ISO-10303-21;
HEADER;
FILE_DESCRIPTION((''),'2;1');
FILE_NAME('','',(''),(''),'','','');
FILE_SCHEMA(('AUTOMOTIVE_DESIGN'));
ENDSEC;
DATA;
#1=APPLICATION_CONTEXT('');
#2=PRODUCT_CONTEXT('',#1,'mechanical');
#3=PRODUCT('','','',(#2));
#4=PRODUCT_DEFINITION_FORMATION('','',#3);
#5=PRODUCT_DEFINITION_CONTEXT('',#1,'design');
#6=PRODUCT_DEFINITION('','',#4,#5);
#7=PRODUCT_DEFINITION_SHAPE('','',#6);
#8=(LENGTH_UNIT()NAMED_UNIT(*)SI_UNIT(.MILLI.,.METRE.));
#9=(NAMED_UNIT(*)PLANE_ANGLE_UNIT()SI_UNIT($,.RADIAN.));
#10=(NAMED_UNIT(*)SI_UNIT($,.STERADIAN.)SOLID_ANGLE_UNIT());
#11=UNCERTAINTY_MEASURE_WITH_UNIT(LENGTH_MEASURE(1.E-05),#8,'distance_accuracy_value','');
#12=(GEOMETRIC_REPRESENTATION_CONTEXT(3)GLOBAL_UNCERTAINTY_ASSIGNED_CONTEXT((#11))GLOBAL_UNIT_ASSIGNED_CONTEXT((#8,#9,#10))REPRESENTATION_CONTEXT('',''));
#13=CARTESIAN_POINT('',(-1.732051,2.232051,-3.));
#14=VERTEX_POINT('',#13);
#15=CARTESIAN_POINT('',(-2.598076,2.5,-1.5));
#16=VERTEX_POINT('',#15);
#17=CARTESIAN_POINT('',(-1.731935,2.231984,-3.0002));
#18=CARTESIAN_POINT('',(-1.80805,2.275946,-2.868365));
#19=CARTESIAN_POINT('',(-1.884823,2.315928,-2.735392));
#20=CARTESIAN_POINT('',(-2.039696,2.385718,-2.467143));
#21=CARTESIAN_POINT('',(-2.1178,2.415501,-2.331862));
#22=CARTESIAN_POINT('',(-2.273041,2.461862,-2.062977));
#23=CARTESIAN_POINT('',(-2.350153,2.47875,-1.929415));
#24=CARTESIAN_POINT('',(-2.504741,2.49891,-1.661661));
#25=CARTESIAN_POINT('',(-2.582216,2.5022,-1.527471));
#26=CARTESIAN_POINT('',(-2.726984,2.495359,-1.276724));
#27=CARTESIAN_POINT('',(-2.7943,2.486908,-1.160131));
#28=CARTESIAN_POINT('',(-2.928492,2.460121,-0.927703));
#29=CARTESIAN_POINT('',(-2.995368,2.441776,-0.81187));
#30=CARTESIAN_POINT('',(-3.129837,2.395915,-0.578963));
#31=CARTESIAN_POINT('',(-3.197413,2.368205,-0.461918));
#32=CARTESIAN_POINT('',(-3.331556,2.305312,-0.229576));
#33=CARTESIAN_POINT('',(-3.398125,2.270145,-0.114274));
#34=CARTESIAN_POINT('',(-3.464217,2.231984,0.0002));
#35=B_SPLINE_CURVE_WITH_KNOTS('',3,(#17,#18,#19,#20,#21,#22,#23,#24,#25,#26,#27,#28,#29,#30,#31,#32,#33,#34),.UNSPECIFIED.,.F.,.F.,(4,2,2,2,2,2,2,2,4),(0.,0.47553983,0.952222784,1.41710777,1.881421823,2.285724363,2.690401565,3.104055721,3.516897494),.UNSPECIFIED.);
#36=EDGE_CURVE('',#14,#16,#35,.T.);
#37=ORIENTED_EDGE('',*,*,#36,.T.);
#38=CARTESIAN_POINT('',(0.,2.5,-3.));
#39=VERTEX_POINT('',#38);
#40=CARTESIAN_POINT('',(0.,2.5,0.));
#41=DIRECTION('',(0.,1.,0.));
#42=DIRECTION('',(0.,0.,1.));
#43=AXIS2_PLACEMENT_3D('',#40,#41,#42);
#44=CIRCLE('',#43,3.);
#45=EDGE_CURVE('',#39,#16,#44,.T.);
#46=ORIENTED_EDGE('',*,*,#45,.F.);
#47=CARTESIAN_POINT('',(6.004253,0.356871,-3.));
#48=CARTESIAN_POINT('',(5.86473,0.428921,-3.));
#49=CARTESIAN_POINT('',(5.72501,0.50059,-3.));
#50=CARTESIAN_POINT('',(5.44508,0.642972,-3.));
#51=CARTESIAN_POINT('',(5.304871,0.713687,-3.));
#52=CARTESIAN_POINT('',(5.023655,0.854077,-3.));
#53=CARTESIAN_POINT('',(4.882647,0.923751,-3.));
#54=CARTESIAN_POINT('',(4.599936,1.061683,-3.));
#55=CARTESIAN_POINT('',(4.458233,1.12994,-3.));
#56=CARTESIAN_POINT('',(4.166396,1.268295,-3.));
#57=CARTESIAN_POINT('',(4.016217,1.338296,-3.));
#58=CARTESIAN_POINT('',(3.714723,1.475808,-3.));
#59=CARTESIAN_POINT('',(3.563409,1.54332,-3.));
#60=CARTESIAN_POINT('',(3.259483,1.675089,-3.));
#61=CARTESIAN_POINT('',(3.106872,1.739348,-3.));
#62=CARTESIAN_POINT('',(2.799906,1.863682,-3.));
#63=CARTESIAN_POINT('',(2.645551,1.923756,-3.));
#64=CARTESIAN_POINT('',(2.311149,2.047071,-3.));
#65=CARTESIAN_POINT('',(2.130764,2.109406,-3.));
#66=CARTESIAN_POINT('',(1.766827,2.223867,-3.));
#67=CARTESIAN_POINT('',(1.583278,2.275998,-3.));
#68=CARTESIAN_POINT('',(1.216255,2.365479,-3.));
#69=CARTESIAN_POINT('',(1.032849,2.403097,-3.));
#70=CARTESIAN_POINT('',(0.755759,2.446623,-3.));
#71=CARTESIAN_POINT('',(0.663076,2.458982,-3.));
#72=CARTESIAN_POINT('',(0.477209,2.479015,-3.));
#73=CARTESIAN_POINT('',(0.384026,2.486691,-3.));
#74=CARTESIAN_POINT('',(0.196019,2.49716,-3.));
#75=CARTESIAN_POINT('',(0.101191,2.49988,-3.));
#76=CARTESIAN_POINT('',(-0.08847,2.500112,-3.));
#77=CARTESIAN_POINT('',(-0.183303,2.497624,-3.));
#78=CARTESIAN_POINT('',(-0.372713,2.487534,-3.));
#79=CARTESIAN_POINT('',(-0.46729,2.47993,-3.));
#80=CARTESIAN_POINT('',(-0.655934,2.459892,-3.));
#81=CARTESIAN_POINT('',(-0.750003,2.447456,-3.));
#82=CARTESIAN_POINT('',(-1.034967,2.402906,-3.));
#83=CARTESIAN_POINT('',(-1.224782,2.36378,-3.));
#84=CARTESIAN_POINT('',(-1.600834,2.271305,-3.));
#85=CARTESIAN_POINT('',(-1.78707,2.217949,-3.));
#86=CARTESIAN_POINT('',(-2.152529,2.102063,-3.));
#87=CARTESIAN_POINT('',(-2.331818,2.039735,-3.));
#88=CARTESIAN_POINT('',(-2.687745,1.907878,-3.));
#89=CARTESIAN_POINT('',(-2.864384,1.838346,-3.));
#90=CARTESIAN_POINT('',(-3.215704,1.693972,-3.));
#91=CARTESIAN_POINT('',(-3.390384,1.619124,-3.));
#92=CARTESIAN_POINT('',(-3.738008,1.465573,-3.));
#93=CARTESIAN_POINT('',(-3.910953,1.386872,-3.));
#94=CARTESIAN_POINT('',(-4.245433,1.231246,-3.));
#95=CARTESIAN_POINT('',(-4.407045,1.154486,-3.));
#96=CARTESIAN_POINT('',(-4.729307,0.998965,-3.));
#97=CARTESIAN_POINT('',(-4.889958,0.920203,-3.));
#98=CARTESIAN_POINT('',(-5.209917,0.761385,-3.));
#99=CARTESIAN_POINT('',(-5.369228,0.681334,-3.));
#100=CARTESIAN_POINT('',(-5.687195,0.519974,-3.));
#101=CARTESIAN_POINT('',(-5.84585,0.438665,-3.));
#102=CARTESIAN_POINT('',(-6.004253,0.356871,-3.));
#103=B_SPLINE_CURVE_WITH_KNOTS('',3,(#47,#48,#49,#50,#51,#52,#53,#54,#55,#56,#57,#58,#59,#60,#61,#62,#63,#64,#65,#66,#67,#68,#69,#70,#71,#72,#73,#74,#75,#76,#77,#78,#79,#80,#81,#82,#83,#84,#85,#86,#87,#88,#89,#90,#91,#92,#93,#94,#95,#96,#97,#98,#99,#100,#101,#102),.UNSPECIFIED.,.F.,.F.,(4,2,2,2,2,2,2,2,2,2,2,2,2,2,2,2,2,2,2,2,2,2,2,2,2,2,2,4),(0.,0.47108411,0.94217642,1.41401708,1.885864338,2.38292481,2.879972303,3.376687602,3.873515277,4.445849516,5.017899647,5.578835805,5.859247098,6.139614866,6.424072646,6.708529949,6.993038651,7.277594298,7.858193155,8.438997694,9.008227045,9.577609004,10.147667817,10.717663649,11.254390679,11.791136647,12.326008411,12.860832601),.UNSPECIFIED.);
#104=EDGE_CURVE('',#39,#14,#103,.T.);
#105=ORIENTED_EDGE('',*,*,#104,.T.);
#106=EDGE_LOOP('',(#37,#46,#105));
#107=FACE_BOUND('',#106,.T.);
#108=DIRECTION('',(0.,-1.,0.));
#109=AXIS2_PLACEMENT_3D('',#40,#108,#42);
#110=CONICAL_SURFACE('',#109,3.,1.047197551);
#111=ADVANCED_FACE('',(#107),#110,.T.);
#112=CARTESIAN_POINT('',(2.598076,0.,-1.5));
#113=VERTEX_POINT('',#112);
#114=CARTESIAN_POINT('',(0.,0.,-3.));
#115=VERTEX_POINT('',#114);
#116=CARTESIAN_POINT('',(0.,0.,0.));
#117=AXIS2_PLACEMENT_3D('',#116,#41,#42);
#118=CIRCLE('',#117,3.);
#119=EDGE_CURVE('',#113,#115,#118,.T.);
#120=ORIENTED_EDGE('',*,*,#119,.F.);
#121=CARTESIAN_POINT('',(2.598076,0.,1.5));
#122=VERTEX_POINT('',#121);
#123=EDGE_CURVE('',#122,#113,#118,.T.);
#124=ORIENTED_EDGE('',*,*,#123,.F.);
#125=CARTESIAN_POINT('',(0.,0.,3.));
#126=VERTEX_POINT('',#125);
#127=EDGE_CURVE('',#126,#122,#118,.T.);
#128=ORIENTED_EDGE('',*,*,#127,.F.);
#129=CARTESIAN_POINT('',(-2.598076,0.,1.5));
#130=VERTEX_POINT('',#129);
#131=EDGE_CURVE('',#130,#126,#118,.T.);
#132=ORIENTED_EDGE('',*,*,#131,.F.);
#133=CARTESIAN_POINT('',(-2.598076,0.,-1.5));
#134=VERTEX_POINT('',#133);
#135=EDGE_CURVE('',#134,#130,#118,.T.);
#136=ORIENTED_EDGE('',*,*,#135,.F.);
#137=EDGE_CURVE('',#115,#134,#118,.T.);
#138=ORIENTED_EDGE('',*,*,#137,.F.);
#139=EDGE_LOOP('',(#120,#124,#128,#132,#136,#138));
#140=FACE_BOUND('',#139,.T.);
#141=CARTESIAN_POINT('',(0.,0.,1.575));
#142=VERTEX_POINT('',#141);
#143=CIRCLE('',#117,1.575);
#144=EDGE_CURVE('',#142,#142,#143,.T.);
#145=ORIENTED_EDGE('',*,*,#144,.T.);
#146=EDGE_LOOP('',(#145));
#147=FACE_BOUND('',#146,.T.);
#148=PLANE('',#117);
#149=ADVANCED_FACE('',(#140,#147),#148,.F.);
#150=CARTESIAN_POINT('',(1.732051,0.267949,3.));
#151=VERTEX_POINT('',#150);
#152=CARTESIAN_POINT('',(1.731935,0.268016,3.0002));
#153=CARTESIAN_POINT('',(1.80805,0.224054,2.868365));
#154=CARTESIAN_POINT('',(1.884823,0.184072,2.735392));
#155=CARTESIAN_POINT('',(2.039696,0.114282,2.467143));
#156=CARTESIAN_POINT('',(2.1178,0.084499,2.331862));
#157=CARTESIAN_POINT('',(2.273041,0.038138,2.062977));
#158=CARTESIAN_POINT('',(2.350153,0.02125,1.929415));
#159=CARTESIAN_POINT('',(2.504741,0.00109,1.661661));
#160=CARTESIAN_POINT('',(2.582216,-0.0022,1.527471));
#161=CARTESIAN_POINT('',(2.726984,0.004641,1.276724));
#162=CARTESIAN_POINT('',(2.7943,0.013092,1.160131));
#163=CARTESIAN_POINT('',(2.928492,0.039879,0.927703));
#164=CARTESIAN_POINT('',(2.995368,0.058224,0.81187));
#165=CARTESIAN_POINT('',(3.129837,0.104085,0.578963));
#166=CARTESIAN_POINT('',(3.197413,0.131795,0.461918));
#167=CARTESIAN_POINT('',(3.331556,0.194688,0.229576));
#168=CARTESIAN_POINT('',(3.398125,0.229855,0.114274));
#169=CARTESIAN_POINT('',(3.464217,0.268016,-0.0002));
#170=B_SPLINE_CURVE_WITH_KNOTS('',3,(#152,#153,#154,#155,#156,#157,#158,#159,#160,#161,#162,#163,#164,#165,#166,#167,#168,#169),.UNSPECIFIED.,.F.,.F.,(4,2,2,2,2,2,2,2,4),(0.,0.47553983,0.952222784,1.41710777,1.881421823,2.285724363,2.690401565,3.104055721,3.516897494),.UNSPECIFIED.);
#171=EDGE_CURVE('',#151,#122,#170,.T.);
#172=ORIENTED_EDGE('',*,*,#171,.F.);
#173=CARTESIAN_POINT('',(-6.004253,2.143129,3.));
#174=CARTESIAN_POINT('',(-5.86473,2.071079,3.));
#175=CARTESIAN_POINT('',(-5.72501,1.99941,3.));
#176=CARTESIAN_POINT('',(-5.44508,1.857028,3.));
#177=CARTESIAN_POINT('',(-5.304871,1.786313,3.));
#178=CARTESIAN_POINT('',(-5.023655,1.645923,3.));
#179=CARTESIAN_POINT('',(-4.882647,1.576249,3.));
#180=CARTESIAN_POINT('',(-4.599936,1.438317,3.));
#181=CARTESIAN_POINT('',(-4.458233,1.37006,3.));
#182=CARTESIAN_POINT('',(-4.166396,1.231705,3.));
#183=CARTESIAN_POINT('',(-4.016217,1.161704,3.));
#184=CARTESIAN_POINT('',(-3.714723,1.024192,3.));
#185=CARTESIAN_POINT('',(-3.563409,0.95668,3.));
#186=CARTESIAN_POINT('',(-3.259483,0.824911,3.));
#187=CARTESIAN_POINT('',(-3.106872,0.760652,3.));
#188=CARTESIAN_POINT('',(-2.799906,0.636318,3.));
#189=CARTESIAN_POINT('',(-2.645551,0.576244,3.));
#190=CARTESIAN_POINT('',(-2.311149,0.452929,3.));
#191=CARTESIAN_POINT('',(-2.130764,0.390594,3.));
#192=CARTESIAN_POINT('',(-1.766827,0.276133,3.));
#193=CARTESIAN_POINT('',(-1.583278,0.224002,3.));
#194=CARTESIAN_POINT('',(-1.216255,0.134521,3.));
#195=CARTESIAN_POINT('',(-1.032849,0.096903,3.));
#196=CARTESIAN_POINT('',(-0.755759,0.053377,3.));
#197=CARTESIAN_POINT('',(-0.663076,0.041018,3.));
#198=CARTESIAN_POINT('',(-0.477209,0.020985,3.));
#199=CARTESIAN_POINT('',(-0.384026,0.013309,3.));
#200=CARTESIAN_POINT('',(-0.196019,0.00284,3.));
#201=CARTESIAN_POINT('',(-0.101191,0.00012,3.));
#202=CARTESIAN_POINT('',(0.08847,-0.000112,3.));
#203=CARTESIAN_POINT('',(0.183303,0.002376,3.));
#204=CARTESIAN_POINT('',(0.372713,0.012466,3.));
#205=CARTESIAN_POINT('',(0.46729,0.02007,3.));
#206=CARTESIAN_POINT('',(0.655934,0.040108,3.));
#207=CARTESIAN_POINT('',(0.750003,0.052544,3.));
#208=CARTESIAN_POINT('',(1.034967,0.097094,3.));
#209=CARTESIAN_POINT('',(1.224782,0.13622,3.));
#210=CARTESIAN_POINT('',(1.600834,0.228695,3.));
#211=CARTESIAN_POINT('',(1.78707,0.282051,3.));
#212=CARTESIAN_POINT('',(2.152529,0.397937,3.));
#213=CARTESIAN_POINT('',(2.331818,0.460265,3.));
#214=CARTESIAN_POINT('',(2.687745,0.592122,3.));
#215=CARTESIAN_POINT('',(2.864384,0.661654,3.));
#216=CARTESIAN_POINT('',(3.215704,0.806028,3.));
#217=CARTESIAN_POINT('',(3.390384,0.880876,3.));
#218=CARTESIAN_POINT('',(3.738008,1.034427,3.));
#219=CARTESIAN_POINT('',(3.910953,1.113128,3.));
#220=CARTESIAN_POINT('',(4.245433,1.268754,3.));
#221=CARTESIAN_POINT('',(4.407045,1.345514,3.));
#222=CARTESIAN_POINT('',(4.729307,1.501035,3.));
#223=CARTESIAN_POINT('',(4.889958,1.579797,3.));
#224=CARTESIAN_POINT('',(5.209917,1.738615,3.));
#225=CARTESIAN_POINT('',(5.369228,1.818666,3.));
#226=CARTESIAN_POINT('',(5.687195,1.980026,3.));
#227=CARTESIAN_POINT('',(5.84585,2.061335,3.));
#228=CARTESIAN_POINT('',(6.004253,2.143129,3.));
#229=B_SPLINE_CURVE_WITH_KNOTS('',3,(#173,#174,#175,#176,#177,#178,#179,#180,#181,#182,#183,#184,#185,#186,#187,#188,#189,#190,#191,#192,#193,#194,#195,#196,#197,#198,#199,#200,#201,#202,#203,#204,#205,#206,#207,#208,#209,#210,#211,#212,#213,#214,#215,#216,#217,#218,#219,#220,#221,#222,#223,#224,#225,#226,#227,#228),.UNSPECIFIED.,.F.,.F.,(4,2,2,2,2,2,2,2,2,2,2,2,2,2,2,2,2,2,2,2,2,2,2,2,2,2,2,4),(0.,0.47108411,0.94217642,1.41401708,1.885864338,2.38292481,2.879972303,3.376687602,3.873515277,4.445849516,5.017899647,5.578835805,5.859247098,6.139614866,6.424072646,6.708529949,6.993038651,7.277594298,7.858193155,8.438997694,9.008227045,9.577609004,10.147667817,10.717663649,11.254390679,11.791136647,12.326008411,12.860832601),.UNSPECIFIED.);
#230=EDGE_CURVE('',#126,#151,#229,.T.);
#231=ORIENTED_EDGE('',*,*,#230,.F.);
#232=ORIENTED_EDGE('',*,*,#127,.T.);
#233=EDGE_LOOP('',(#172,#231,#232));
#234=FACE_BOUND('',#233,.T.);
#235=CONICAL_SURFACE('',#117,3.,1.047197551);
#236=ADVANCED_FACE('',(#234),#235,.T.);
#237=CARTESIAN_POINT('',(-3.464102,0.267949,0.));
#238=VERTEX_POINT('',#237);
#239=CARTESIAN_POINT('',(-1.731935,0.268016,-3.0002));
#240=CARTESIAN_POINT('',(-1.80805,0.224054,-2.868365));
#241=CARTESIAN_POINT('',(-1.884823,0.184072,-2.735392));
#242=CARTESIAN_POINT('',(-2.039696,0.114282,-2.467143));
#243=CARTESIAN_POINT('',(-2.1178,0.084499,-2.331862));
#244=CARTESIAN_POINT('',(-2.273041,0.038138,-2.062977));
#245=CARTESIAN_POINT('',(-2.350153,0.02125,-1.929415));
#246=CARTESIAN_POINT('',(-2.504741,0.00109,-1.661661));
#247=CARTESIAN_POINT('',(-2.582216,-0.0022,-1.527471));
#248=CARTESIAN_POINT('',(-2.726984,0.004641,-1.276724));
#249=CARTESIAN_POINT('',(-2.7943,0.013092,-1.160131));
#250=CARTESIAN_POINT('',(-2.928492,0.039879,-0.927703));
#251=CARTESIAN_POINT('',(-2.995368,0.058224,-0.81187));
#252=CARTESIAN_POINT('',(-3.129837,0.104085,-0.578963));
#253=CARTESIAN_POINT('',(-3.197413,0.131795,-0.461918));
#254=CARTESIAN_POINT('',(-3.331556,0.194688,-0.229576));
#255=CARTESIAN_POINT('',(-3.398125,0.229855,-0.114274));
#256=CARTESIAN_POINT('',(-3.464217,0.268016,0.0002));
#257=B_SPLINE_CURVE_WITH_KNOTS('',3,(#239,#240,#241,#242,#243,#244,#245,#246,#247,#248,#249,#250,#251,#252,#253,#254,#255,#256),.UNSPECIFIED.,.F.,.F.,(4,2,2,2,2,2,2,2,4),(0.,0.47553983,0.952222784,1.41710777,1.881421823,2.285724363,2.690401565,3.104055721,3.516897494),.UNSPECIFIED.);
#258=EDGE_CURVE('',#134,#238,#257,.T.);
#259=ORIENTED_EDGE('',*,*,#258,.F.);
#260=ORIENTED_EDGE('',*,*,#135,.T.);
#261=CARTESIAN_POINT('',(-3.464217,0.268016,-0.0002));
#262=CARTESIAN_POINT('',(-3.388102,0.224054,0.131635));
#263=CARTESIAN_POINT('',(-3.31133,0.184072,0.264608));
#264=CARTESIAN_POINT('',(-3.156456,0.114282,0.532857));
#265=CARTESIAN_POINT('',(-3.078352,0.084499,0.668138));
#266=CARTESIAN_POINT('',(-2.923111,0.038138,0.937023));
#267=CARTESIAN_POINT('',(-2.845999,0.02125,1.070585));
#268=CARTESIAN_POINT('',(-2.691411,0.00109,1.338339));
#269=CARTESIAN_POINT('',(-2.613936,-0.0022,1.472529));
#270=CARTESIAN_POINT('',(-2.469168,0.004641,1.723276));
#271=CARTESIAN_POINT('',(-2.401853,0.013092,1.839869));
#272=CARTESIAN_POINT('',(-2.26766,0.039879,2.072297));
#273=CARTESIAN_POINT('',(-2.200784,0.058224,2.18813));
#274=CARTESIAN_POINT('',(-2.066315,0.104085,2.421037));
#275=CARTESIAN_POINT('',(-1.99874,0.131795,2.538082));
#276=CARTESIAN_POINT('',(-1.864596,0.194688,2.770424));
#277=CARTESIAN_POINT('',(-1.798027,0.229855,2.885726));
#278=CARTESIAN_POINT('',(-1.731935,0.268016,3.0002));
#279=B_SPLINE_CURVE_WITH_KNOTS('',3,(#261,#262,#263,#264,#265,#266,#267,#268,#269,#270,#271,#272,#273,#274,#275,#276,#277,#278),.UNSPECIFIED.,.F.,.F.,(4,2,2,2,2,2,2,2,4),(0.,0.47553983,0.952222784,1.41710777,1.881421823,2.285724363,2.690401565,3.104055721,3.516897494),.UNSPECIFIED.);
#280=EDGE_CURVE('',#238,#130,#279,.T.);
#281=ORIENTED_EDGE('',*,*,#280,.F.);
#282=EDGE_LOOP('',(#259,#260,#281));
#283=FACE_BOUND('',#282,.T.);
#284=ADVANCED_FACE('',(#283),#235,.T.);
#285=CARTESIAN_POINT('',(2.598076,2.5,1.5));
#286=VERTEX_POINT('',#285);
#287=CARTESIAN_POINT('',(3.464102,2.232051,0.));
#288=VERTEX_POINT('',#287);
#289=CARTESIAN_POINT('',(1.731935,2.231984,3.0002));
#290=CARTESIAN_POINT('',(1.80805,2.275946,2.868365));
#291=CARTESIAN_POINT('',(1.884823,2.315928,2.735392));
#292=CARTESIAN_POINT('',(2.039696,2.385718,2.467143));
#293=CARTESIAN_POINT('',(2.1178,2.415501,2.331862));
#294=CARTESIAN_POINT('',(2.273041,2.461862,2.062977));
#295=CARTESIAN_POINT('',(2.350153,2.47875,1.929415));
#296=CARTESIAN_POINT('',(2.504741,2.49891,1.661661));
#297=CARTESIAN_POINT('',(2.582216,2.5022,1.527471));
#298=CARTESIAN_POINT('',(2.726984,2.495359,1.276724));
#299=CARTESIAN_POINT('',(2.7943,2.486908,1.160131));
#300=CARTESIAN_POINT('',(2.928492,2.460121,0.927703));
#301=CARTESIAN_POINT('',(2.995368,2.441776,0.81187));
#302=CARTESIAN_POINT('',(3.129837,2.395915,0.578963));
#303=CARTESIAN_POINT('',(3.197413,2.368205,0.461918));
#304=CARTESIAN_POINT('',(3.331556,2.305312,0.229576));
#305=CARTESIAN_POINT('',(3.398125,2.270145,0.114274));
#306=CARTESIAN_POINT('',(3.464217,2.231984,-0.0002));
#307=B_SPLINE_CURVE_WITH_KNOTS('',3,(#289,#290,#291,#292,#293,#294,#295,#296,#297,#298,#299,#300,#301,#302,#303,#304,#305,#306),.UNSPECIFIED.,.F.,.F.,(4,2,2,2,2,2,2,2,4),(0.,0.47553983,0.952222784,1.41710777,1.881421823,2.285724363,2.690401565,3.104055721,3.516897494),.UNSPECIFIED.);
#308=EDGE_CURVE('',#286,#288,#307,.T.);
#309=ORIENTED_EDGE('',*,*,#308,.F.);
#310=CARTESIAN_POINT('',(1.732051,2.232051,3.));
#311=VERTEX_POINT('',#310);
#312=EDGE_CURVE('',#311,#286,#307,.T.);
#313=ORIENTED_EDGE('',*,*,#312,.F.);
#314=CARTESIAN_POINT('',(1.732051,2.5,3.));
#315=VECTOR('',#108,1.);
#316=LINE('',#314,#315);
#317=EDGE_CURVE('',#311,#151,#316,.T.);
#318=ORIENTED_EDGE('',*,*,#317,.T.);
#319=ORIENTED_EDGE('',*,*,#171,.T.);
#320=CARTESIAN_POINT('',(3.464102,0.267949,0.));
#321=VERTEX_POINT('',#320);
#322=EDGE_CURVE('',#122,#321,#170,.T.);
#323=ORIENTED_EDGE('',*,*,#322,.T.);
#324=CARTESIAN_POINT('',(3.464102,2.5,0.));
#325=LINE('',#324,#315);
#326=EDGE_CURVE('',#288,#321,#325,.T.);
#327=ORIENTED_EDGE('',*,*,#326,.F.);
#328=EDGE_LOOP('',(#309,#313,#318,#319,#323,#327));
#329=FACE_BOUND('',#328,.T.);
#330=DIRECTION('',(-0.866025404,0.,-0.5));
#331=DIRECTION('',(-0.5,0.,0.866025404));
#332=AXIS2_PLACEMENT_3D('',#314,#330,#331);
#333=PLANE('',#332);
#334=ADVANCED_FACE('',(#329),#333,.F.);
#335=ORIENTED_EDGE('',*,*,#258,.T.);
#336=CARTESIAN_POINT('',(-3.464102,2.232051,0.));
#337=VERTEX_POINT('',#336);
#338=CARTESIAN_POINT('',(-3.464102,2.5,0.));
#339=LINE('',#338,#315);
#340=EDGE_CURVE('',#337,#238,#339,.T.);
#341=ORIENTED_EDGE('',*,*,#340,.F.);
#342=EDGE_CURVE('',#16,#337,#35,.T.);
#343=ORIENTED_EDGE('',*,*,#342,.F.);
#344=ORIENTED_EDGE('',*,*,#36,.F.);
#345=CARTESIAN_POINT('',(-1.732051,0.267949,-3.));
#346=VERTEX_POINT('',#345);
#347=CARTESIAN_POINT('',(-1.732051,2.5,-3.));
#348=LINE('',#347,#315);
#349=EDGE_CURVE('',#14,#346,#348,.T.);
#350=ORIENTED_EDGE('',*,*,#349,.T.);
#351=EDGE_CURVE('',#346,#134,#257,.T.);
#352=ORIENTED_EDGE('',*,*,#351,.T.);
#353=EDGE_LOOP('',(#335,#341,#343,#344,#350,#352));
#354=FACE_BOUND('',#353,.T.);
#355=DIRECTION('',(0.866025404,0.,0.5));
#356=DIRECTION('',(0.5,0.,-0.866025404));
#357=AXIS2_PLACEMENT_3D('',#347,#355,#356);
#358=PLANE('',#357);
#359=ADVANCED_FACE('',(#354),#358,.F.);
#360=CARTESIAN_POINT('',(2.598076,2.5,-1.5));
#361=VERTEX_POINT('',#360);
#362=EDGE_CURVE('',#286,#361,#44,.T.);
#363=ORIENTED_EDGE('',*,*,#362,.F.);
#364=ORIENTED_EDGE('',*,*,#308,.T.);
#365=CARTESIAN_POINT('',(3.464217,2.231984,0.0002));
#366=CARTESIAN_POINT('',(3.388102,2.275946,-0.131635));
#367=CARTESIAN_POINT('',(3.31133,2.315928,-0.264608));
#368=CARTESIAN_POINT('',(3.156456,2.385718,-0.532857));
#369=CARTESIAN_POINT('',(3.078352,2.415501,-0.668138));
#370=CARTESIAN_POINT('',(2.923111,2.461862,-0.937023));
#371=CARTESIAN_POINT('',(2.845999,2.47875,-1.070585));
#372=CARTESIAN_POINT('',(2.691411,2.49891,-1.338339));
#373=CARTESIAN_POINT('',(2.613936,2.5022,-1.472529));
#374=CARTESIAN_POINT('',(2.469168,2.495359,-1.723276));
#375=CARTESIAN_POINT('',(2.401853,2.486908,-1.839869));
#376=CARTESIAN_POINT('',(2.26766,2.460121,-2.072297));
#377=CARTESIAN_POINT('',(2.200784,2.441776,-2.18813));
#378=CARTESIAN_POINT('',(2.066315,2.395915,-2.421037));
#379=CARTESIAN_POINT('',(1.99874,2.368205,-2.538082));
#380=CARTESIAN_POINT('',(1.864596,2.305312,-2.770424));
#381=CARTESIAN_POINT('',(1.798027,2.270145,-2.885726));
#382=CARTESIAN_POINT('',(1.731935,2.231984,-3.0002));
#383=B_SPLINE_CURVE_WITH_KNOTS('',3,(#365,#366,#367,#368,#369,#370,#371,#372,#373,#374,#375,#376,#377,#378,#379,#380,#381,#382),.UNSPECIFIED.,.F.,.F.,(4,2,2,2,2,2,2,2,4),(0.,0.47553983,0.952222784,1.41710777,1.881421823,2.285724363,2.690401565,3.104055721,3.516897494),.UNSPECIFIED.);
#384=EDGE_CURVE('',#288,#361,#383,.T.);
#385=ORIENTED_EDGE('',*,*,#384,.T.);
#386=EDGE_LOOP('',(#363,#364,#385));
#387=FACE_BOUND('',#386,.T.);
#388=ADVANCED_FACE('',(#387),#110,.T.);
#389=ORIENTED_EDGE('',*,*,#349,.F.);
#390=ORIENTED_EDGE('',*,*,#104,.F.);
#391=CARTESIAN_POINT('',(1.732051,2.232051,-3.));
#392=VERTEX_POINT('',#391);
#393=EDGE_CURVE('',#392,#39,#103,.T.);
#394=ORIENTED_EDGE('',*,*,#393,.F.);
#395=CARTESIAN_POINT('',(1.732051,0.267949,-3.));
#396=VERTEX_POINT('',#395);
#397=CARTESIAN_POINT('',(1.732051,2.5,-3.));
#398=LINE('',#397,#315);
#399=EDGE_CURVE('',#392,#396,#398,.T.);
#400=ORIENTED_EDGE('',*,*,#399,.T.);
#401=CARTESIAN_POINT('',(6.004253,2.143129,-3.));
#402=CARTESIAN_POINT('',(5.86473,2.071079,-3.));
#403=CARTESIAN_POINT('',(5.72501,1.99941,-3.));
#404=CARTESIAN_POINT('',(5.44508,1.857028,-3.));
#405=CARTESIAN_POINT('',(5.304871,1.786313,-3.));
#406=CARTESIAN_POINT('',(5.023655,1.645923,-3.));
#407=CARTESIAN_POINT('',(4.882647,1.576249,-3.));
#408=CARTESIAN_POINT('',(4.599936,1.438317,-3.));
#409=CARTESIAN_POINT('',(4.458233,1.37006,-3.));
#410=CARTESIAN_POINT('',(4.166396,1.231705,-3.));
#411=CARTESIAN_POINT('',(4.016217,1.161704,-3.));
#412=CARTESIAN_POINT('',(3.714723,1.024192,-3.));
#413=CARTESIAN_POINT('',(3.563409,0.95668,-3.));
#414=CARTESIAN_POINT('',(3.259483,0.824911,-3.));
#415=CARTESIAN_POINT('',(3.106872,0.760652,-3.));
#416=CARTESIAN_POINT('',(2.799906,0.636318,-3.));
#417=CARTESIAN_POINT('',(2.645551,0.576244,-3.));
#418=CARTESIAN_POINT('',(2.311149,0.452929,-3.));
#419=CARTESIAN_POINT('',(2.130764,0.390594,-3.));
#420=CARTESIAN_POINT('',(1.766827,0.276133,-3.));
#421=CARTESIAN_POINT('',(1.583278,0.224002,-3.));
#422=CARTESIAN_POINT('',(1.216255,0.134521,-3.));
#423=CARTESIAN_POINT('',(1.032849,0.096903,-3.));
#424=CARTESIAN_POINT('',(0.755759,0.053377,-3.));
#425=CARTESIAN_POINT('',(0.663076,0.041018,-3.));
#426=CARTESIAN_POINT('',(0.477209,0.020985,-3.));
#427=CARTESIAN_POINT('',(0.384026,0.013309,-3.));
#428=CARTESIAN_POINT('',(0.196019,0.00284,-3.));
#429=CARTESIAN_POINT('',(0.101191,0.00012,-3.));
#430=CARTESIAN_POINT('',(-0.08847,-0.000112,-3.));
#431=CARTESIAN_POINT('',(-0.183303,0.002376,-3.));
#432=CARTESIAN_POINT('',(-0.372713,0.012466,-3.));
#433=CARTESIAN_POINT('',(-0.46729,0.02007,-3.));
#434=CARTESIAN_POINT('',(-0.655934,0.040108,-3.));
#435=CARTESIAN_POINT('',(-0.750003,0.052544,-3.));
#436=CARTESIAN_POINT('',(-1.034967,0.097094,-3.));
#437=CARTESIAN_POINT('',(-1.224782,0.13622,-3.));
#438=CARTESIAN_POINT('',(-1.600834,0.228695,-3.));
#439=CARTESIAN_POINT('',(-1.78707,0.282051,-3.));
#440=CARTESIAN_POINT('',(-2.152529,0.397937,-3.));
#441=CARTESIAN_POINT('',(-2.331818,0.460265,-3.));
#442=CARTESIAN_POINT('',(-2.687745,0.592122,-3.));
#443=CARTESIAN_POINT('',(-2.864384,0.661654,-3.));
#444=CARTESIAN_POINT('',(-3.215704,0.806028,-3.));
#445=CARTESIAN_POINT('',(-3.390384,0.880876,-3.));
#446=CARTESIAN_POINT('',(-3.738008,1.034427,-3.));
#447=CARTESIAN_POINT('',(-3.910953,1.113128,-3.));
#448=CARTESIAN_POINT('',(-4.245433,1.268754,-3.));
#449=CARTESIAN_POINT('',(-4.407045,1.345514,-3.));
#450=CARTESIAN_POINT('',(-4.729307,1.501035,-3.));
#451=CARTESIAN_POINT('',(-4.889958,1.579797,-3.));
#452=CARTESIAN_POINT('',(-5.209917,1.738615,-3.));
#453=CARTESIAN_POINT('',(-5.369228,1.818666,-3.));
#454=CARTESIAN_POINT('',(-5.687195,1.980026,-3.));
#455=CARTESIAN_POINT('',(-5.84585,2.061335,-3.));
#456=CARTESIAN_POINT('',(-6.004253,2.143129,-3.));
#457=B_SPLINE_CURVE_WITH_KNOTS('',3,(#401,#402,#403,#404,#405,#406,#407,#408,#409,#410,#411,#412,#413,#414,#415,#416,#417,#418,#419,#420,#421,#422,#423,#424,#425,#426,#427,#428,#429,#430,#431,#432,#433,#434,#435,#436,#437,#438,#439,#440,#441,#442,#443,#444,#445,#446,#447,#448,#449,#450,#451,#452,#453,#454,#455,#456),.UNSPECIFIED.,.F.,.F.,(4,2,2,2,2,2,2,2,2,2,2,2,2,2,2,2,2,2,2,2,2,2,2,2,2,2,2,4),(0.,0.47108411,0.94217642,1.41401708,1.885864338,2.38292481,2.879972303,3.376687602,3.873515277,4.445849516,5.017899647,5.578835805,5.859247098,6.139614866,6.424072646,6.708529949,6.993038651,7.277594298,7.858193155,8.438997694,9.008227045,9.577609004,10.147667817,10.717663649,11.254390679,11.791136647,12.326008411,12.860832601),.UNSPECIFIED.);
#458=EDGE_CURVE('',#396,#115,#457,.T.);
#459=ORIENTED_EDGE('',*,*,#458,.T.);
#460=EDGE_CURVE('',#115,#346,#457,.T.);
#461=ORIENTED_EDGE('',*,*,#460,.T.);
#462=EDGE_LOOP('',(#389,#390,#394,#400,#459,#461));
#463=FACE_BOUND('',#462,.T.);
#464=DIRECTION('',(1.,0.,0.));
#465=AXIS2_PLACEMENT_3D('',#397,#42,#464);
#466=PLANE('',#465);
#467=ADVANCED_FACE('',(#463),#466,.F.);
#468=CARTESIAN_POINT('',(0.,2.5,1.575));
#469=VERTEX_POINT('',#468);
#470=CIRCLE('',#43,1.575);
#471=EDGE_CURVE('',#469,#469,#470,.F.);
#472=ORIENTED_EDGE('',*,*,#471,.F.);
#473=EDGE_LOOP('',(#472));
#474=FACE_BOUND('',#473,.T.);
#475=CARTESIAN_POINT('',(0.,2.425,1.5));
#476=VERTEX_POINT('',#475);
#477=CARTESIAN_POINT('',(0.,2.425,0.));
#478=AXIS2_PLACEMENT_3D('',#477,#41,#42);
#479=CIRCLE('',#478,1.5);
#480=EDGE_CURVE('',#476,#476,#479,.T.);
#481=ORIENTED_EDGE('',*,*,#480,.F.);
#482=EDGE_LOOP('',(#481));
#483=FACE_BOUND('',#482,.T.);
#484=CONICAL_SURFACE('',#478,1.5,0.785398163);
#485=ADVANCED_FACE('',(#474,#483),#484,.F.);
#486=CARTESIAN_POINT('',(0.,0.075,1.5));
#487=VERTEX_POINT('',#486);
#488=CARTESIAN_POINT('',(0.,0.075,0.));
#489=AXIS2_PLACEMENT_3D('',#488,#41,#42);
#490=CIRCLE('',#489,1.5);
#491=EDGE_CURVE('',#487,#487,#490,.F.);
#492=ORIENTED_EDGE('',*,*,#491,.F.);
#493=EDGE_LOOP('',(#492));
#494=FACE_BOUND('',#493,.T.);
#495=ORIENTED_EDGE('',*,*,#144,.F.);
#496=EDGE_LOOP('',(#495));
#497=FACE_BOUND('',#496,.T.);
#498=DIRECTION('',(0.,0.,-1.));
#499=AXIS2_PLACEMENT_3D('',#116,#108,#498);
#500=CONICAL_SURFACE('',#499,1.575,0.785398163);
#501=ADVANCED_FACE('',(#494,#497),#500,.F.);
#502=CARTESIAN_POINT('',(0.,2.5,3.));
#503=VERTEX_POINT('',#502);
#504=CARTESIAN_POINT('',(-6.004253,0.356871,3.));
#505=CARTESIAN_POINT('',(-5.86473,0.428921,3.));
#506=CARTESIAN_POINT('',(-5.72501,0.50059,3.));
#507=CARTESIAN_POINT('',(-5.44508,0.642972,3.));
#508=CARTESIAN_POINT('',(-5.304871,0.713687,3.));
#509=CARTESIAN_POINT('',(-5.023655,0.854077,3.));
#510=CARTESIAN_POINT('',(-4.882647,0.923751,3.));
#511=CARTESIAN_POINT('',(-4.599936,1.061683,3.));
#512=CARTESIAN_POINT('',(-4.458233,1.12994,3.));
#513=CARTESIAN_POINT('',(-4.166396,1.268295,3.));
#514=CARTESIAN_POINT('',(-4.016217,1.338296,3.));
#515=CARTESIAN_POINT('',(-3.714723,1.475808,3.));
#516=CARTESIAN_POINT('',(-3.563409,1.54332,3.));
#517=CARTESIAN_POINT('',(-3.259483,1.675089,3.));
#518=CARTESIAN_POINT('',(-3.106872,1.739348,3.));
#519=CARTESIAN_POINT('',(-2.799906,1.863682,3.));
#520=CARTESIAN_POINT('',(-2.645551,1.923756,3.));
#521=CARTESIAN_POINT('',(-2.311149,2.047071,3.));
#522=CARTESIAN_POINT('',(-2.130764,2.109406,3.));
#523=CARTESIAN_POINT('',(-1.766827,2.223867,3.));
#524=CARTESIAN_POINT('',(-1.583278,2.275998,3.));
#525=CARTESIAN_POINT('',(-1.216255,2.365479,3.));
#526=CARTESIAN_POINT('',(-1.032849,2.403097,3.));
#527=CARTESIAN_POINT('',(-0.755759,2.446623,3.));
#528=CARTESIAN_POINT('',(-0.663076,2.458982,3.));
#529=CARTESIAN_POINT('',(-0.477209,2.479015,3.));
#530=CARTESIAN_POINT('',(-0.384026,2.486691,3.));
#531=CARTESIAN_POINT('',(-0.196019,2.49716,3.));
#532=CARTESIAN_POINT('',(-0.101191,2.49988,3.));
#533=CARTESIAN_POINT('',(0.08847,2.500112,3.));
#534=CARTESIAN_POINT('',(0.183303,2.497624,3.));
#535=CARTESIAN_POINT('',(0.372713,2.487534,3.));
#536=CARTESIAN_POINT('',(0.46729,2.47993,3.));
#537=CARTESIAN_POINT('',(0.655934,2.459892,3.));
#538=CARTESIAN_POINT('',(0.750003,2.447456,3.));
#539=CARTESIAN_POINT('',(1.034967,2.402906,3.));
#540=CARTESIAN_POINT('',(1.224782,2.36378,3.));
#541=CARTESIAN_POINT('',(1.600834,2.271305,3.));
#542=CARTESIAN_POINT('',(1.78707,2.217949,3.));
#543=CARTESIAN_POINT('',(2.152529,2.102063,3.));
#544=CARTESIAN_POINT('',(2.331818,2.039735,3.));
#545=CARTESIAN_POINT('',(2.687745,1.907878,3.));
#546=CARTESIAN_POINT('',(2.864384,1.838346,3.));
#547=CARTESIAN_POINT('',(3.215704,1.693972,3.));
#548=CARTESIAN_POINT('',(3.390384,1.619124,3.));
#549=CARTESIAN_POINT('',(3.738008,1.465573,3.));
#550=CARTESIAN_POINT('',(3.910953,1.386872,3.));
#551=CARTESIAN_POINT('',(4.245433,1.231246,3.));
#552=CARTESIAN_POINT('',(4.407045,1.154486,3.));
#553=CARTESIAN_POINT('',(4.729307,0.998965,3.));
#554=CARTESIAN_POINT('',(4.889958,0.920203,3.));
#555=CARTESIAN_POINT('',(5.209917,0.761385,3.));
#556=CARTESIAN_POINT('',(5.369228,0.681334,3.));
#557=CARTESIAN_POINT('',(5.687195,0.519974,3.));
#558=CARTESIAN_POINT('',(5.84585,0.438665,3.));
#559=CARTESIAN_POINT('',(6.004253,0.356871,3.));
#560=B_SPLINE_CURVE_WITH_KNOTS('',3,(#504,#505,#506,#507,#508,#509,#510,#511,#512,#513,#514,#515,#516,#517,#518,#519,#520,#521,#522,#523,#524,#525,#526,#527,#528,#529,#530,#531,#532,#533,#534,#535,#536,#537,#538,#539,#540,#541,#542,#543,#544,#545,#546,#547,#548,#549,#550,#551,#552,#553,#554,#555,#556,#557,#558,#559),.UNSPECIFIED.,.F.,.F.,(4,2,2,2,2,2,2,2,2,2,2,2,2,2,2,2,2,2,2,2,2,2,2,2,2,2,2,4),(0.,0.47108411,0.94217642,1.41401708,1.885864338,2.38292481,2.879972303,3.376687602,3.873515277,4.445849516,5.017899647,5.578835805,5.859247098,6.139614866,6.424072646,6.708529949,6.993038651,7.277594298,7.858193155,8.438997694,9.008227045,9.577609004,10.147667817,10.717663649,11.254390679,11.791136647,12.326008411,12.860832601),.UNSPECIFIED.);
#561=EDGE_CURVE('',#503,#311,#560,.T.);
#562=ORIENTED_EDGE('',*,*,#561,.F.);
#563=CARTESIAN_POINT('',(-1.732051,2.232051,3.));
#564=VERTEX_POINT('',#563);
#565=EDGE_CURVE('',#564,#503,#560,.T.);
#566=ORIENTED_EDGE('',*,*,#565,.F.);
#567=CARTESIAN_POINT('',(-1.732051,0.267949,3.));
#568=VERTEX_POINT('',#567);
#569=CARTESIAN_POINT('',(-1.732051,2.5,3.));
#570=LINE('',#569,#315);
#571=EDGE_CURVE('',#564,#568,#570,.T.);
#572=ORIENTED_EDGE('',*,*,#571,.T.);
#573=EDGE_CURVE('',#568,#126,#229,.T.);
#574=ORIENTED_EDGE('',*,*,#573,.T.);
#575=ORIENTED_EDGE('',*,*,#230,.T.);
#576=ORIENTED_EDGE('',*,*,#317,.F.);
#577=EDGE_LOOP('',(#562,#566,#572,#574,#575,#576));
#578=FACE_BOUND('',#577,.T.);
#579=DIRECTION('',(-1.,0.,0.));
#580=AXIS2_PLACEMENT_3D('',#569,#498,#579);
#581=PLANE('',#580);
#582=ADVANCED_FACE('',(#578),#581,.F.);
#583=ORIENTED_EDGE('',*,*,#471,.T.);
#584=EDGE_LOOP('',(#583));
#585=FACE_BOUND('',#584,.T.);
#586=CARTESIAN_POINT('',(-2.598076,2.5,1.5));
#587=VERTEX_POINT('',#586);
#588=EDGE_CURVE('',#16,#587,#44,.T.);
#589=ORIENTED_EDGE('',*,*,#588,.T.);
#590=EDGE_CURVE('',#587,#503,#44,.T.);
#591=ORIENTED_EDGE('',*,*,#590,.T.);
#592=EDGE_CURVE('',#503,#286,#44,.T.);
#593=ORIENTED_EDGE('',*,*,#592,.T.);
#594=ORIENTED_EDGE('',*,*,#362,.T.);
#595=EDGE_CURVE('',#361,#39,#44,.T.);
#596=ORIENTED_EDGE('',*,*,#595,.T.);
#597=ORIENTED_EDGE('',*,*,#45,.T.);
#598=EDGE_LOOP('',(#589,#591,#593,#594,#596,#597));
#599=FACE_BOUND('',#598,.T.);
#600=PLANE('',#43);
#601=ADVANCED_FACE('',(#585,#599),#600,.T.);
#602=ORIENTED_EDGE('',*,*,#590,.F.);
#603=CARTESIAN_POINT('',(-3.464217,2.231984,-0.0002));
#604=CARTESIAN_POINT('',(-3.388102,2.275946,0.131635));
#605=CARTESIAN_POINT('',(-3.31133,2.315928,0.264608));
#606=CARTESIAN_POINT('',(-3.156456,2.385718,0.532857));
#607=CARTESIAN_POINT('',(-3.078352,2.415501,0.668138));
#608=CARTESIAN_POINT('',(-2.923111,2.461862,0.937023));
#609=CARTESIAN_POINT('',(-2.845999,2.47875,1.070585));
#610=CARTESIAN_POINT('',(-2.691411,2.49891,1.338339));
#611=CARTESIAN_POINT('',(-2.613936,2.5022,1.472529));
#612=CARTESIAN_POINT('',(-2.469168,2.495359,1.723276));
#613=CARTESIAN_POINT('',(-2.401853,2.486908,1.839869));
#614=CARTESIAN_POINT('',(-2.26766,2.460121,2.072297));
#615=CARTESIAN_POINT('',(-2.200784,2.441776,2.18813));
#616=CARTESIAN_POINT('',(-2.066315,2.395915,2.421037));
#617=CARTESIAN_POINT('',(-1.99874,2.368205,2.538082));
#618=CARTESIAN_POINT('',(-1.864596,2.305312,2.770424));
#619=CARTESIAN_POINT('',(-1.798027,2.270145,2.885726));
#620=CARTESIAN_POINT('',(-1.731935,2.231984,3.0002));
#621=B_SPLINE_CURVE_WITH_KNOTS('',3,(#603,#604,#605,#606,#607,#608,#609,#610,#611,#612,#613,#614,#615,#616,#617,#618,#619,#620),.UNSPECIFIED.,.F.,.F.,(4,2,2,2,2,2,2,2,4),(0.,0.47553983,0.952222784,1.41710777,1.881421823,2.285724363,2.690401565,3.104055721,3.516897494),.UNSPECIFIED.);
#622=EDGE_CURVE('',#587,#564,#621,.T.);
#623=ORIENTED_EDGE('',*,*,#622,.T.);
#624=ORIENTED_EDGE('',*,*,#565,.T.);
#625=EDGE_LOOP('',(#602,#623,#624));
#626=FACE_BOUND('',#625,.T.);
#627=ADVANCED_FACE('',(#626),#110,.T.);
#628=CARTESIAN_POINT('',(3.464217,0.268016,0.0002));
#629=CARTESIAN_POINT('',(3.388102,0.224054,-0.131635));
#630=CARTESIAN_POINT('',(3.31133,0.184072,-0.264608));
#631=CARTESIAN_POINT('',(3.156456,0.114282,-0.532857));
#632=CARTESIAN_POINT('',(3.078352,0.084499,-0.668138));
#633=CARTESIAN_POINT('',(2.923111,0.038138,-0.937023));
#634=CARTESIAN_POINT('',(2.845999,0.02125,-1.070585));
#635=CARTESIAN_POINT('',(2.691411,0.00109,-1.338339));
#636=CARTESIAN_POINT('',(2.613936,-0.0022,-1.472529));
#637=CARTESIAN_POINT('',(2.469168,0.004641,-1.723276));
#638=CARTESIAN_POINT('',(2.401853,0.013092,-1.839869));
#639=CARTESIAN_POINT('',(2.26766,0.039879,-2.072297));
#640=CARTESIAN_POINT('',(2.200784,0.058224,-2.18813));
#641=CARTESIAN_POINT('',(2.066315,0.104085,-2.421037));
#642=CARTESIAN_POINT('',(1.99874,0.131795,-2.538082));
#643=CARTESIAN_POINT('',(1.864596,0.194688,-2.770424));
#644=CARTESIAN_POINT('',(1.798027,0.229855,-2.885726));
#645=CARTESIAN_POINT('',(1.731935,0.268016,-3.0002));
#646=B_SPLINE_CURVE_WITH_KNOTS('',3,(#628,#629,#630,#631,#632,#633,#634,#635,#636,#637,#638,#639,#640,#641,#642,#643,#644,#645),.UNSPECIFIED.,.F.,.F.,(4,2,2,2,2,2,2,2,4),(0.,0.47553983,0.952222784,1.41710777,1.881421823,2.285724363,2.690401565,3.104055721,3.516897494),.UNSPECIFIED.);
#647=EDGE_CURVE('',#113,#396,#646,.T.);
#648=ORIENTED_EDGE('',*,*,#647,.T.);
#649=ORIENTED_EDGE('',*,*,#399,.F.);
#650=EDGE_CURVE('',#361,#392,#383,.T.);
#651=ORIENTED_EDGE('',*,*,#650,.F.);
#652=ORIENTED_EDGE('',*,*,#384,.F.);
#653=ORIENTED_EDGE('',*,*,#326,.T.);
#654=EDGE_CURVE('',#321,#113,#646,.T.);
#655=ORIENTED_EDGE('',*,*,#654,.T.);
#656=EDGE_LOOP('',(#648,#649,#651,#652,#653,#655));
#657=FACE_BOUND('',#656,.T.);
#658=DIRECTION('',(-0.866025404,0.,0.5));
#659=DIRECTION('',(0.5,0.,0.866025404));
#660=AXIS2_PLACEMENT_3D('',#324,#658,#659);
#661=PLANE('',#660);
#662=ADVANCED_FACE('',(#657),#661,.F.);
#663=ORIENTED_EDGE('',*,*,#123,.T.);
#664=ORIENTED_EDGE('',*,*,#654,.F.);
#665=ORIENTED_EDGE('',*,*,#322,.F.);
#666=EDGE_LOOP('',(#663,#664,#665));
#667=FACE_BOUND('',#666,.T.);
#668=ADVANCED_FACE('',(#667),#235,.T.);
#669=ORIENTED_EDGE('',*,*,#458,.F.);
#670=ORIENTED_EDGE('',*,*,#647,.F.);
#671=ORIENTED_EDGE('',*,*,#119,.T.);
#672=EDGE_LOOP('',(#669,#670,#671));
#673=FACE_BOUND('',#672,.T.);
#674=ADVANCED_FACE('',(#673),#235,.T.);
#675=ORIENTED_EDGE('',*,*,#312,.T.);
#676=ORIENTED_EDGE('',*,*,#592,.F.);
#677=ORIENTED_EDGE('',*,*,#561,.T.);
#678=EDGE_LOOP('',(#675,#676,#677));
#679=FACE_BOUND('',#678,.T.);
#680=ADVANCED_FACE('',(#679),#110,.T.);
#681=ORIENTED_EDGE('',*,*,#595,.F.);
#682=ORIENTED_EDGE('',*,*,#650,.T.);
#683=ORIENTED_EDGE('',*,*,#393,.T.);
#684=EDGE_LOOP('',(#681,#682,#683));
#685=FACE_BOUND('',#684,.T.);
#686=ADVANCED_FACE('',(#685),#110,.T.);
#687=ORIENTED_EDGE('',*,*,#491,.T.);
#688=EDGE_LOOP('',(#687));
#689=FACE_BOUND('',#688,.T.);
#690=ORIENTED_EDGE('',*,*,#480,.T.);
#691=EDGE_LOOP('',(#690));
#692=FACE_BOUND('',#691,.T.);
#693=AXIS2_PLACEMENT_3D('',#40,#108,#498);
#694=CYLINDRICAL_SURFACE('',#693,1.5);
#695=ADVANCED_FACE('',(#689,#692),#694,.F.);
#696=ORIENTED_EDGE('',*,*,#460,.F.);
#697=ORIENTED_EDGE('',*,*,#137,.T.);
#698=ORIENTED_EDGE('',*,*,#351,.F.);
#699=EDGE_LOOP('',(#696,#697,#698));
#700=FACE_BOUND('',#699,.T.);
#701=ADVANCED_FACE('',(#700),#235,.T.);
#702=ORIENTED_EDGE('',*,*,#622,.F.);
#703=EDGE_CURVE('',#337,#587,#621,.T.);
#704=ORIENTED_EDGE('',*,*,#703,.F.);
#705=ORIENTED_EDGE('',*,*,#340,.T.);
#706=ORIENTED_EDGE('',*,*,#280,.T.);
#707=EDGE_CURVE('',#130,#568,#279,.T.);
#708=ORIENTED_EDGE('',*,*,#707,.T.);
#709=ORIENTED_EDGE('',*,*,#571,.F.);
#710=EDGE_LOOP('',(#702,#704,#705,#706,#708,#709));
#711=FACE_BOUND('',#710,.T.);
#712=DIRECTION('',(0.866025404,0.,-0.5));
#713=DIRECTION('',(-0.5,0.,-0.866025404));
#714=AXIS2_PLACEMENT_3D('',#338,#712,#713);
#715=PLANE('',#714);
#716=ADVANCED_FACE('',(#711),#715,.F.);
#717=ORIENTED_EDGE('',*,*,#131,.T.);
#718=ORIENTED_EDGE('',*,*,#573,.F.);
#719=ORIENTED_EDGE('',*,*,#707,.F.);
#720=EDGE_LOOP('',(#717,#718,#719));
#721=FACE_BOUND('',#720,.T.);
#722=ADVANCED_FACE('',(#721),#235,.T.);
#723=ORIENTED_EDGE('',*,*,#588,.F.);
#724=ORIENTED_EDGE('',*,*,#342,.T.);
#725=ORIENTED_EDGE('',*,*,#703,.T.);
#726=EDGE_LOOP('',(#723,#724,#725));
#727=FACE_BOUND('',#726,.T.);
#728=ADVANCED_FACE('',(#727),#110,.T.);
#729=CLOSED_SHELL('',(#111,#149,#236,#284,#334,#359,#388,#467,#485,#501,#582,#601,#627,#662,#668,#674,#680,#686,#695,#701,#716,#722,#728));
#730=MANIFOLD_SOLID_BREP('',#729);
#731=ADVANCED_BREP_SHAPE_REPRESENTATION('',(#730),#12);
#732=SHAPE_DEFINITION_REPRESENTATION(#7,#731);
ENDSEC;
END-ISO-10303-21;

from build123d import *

# Parameters (mm, degrees)
SKETCH2_R           = 1.5
BOSS_EXTRUDE1_DEPTH = 2.5
SKETCH3_OUTSIDE_W   = 22.086
SKETCH3_OUTSIDE_H   = 21.158
SKETCH3_OUTSIDE_R   = 3
CUT_EXTRUDE1_DEPTH  = 3.25
CUT_EXTRUDE1_DRAFT  = 60
SKETCH4_OUTSIDE_W   = 22.086
SKETCH4_OUTSIDE_H   = 21.158
SKETCH4_OUTSIDE_R   = 3
CUT_EXTRUDE2_DEPTH  = 3.25
CUT_EXTRUDE2_DRAFT  = -60
CHAMFER1_SIZE       = 0.075


with BuildPart() as part:
    # Sketch2 → Boss-Extrude1 (new body)
    with BuildSketch(Plane(origin=(0, 0, 0), x_dir=(1, 0, 0), z_dir=(0, 1, 0))):
        Polygon((3.464101615, 0), (1.732050808, 3), (-1.732050808, 3), (-3.464101615, 0), (-1.732050808, -3), (1.732050808, -3), align=None)
        with Locations(Location((0, 0, 0), (0, 0, 270))):
            Circle(SKETCH2_R, mode=Mode.SUBTRACT)
    extrude(amount=BOSS_EXTRUDE1_DEPTH)


with BuildPart() as cut_extrude1_tool:
    # Sketch3 outside → Cut-Extrude1 (with draft: the straight prism first)
    with BuildSketch(Plane(origin=(0, 0, 0), x_dir=(1, 0, 0), z_dir=(0, 1, 0))):
        Rectangle(SKETCH3_OUTSIDE_W, SKETCH3_OUTSIDE_H)
        Circle(SKETCH3_OUTSIDE_R, mode=Mode.SUBTRACT)
    extrude(amount=CUT_EXTRUDE1_DEPTH)
    # Cut-Extrude1: the draft: its side faces are tilted about the plane it starts from
    cut_extrude1_sides = [cut_extrude1_tool.faces().sort_by_distance(p)[0] for p in [
        (0, 1.625, 10.579),
        (11.043, 1.625, 0),
        (0, 1.625, -10.579),
        (-11.043, 1.625, 0),
        (-3, 1.625, 0),
    ]]
    draft(cut_extrude1_sides, Plane(origin=(0, 0, 0), x_dir=(1, 0, 0), z_dir=(0, 1, 0)), CUT_EXTRUDE1_DRAFT)


with BuildPart() as part_1:
    add(part.part)

    # Cut-Extrude1: cut by cut_extrude1_tool
    add(cut_extrude1_tool.part, mode=Mode.SUBTRACT)


with BuildPart() as cut_extrude2_tool:
    # Sketch4 outside → Cut-Extrude2 (with draft: the straight prism first)
    with BuildSketch(Plane(origin=(0, 2.5, 0), x_dir=(1, 0, 0), z_dir=(0, 1, 0))):
        Rectangle(SKETCH4_OUTSIDE_W, SKETCH4_OUTSIDE_H)
        Circle(SKETCH4_OUTSIDE_R, mode=Mode.SUBTRACT)
    extrude(amount=-CUT_EXTRUDE2_DEPTH)
    # Cut-Extrude2: the draft: its side faces are tilted about the plane it starts from
    cut_extrude2_sides = [cut_extrude2_tool.faces().sort_by_distance(p)[0] for p in [
        (0, 0.875, 10.579),
        (11.043, 0.875, 0),
        (0, 0.875, -10.579),
        (-11.043, 0.875, 0),
        (-3, 0.875, 0),
    ]]
    draft(cut_extrude2_sides, Plane(origin=(0, 2.5, 0), x_dir=(1, 0, 0), z_dir=(0, 1, 0)), CUT_EXTRUDE2_DRAFT)


with BuildPart() as part_2:
    add(part_1.part)

    # Cut-Extrude2: cut by cut_extrude2_tool
    add(cut_extrude2_tool.part, mode=Mode.SUBTRACT)

    # Chamfer1
    chamfer1_edges = [part_2.edges().sort_by_distance(p)[0] for p in [
        (0, 0, -1.5),
        (0, 2.5, -1.5),
    ]]
    chamfer(chamfer1_edges, length=CHAMFER1_SIZE)


solid = part_2.part
